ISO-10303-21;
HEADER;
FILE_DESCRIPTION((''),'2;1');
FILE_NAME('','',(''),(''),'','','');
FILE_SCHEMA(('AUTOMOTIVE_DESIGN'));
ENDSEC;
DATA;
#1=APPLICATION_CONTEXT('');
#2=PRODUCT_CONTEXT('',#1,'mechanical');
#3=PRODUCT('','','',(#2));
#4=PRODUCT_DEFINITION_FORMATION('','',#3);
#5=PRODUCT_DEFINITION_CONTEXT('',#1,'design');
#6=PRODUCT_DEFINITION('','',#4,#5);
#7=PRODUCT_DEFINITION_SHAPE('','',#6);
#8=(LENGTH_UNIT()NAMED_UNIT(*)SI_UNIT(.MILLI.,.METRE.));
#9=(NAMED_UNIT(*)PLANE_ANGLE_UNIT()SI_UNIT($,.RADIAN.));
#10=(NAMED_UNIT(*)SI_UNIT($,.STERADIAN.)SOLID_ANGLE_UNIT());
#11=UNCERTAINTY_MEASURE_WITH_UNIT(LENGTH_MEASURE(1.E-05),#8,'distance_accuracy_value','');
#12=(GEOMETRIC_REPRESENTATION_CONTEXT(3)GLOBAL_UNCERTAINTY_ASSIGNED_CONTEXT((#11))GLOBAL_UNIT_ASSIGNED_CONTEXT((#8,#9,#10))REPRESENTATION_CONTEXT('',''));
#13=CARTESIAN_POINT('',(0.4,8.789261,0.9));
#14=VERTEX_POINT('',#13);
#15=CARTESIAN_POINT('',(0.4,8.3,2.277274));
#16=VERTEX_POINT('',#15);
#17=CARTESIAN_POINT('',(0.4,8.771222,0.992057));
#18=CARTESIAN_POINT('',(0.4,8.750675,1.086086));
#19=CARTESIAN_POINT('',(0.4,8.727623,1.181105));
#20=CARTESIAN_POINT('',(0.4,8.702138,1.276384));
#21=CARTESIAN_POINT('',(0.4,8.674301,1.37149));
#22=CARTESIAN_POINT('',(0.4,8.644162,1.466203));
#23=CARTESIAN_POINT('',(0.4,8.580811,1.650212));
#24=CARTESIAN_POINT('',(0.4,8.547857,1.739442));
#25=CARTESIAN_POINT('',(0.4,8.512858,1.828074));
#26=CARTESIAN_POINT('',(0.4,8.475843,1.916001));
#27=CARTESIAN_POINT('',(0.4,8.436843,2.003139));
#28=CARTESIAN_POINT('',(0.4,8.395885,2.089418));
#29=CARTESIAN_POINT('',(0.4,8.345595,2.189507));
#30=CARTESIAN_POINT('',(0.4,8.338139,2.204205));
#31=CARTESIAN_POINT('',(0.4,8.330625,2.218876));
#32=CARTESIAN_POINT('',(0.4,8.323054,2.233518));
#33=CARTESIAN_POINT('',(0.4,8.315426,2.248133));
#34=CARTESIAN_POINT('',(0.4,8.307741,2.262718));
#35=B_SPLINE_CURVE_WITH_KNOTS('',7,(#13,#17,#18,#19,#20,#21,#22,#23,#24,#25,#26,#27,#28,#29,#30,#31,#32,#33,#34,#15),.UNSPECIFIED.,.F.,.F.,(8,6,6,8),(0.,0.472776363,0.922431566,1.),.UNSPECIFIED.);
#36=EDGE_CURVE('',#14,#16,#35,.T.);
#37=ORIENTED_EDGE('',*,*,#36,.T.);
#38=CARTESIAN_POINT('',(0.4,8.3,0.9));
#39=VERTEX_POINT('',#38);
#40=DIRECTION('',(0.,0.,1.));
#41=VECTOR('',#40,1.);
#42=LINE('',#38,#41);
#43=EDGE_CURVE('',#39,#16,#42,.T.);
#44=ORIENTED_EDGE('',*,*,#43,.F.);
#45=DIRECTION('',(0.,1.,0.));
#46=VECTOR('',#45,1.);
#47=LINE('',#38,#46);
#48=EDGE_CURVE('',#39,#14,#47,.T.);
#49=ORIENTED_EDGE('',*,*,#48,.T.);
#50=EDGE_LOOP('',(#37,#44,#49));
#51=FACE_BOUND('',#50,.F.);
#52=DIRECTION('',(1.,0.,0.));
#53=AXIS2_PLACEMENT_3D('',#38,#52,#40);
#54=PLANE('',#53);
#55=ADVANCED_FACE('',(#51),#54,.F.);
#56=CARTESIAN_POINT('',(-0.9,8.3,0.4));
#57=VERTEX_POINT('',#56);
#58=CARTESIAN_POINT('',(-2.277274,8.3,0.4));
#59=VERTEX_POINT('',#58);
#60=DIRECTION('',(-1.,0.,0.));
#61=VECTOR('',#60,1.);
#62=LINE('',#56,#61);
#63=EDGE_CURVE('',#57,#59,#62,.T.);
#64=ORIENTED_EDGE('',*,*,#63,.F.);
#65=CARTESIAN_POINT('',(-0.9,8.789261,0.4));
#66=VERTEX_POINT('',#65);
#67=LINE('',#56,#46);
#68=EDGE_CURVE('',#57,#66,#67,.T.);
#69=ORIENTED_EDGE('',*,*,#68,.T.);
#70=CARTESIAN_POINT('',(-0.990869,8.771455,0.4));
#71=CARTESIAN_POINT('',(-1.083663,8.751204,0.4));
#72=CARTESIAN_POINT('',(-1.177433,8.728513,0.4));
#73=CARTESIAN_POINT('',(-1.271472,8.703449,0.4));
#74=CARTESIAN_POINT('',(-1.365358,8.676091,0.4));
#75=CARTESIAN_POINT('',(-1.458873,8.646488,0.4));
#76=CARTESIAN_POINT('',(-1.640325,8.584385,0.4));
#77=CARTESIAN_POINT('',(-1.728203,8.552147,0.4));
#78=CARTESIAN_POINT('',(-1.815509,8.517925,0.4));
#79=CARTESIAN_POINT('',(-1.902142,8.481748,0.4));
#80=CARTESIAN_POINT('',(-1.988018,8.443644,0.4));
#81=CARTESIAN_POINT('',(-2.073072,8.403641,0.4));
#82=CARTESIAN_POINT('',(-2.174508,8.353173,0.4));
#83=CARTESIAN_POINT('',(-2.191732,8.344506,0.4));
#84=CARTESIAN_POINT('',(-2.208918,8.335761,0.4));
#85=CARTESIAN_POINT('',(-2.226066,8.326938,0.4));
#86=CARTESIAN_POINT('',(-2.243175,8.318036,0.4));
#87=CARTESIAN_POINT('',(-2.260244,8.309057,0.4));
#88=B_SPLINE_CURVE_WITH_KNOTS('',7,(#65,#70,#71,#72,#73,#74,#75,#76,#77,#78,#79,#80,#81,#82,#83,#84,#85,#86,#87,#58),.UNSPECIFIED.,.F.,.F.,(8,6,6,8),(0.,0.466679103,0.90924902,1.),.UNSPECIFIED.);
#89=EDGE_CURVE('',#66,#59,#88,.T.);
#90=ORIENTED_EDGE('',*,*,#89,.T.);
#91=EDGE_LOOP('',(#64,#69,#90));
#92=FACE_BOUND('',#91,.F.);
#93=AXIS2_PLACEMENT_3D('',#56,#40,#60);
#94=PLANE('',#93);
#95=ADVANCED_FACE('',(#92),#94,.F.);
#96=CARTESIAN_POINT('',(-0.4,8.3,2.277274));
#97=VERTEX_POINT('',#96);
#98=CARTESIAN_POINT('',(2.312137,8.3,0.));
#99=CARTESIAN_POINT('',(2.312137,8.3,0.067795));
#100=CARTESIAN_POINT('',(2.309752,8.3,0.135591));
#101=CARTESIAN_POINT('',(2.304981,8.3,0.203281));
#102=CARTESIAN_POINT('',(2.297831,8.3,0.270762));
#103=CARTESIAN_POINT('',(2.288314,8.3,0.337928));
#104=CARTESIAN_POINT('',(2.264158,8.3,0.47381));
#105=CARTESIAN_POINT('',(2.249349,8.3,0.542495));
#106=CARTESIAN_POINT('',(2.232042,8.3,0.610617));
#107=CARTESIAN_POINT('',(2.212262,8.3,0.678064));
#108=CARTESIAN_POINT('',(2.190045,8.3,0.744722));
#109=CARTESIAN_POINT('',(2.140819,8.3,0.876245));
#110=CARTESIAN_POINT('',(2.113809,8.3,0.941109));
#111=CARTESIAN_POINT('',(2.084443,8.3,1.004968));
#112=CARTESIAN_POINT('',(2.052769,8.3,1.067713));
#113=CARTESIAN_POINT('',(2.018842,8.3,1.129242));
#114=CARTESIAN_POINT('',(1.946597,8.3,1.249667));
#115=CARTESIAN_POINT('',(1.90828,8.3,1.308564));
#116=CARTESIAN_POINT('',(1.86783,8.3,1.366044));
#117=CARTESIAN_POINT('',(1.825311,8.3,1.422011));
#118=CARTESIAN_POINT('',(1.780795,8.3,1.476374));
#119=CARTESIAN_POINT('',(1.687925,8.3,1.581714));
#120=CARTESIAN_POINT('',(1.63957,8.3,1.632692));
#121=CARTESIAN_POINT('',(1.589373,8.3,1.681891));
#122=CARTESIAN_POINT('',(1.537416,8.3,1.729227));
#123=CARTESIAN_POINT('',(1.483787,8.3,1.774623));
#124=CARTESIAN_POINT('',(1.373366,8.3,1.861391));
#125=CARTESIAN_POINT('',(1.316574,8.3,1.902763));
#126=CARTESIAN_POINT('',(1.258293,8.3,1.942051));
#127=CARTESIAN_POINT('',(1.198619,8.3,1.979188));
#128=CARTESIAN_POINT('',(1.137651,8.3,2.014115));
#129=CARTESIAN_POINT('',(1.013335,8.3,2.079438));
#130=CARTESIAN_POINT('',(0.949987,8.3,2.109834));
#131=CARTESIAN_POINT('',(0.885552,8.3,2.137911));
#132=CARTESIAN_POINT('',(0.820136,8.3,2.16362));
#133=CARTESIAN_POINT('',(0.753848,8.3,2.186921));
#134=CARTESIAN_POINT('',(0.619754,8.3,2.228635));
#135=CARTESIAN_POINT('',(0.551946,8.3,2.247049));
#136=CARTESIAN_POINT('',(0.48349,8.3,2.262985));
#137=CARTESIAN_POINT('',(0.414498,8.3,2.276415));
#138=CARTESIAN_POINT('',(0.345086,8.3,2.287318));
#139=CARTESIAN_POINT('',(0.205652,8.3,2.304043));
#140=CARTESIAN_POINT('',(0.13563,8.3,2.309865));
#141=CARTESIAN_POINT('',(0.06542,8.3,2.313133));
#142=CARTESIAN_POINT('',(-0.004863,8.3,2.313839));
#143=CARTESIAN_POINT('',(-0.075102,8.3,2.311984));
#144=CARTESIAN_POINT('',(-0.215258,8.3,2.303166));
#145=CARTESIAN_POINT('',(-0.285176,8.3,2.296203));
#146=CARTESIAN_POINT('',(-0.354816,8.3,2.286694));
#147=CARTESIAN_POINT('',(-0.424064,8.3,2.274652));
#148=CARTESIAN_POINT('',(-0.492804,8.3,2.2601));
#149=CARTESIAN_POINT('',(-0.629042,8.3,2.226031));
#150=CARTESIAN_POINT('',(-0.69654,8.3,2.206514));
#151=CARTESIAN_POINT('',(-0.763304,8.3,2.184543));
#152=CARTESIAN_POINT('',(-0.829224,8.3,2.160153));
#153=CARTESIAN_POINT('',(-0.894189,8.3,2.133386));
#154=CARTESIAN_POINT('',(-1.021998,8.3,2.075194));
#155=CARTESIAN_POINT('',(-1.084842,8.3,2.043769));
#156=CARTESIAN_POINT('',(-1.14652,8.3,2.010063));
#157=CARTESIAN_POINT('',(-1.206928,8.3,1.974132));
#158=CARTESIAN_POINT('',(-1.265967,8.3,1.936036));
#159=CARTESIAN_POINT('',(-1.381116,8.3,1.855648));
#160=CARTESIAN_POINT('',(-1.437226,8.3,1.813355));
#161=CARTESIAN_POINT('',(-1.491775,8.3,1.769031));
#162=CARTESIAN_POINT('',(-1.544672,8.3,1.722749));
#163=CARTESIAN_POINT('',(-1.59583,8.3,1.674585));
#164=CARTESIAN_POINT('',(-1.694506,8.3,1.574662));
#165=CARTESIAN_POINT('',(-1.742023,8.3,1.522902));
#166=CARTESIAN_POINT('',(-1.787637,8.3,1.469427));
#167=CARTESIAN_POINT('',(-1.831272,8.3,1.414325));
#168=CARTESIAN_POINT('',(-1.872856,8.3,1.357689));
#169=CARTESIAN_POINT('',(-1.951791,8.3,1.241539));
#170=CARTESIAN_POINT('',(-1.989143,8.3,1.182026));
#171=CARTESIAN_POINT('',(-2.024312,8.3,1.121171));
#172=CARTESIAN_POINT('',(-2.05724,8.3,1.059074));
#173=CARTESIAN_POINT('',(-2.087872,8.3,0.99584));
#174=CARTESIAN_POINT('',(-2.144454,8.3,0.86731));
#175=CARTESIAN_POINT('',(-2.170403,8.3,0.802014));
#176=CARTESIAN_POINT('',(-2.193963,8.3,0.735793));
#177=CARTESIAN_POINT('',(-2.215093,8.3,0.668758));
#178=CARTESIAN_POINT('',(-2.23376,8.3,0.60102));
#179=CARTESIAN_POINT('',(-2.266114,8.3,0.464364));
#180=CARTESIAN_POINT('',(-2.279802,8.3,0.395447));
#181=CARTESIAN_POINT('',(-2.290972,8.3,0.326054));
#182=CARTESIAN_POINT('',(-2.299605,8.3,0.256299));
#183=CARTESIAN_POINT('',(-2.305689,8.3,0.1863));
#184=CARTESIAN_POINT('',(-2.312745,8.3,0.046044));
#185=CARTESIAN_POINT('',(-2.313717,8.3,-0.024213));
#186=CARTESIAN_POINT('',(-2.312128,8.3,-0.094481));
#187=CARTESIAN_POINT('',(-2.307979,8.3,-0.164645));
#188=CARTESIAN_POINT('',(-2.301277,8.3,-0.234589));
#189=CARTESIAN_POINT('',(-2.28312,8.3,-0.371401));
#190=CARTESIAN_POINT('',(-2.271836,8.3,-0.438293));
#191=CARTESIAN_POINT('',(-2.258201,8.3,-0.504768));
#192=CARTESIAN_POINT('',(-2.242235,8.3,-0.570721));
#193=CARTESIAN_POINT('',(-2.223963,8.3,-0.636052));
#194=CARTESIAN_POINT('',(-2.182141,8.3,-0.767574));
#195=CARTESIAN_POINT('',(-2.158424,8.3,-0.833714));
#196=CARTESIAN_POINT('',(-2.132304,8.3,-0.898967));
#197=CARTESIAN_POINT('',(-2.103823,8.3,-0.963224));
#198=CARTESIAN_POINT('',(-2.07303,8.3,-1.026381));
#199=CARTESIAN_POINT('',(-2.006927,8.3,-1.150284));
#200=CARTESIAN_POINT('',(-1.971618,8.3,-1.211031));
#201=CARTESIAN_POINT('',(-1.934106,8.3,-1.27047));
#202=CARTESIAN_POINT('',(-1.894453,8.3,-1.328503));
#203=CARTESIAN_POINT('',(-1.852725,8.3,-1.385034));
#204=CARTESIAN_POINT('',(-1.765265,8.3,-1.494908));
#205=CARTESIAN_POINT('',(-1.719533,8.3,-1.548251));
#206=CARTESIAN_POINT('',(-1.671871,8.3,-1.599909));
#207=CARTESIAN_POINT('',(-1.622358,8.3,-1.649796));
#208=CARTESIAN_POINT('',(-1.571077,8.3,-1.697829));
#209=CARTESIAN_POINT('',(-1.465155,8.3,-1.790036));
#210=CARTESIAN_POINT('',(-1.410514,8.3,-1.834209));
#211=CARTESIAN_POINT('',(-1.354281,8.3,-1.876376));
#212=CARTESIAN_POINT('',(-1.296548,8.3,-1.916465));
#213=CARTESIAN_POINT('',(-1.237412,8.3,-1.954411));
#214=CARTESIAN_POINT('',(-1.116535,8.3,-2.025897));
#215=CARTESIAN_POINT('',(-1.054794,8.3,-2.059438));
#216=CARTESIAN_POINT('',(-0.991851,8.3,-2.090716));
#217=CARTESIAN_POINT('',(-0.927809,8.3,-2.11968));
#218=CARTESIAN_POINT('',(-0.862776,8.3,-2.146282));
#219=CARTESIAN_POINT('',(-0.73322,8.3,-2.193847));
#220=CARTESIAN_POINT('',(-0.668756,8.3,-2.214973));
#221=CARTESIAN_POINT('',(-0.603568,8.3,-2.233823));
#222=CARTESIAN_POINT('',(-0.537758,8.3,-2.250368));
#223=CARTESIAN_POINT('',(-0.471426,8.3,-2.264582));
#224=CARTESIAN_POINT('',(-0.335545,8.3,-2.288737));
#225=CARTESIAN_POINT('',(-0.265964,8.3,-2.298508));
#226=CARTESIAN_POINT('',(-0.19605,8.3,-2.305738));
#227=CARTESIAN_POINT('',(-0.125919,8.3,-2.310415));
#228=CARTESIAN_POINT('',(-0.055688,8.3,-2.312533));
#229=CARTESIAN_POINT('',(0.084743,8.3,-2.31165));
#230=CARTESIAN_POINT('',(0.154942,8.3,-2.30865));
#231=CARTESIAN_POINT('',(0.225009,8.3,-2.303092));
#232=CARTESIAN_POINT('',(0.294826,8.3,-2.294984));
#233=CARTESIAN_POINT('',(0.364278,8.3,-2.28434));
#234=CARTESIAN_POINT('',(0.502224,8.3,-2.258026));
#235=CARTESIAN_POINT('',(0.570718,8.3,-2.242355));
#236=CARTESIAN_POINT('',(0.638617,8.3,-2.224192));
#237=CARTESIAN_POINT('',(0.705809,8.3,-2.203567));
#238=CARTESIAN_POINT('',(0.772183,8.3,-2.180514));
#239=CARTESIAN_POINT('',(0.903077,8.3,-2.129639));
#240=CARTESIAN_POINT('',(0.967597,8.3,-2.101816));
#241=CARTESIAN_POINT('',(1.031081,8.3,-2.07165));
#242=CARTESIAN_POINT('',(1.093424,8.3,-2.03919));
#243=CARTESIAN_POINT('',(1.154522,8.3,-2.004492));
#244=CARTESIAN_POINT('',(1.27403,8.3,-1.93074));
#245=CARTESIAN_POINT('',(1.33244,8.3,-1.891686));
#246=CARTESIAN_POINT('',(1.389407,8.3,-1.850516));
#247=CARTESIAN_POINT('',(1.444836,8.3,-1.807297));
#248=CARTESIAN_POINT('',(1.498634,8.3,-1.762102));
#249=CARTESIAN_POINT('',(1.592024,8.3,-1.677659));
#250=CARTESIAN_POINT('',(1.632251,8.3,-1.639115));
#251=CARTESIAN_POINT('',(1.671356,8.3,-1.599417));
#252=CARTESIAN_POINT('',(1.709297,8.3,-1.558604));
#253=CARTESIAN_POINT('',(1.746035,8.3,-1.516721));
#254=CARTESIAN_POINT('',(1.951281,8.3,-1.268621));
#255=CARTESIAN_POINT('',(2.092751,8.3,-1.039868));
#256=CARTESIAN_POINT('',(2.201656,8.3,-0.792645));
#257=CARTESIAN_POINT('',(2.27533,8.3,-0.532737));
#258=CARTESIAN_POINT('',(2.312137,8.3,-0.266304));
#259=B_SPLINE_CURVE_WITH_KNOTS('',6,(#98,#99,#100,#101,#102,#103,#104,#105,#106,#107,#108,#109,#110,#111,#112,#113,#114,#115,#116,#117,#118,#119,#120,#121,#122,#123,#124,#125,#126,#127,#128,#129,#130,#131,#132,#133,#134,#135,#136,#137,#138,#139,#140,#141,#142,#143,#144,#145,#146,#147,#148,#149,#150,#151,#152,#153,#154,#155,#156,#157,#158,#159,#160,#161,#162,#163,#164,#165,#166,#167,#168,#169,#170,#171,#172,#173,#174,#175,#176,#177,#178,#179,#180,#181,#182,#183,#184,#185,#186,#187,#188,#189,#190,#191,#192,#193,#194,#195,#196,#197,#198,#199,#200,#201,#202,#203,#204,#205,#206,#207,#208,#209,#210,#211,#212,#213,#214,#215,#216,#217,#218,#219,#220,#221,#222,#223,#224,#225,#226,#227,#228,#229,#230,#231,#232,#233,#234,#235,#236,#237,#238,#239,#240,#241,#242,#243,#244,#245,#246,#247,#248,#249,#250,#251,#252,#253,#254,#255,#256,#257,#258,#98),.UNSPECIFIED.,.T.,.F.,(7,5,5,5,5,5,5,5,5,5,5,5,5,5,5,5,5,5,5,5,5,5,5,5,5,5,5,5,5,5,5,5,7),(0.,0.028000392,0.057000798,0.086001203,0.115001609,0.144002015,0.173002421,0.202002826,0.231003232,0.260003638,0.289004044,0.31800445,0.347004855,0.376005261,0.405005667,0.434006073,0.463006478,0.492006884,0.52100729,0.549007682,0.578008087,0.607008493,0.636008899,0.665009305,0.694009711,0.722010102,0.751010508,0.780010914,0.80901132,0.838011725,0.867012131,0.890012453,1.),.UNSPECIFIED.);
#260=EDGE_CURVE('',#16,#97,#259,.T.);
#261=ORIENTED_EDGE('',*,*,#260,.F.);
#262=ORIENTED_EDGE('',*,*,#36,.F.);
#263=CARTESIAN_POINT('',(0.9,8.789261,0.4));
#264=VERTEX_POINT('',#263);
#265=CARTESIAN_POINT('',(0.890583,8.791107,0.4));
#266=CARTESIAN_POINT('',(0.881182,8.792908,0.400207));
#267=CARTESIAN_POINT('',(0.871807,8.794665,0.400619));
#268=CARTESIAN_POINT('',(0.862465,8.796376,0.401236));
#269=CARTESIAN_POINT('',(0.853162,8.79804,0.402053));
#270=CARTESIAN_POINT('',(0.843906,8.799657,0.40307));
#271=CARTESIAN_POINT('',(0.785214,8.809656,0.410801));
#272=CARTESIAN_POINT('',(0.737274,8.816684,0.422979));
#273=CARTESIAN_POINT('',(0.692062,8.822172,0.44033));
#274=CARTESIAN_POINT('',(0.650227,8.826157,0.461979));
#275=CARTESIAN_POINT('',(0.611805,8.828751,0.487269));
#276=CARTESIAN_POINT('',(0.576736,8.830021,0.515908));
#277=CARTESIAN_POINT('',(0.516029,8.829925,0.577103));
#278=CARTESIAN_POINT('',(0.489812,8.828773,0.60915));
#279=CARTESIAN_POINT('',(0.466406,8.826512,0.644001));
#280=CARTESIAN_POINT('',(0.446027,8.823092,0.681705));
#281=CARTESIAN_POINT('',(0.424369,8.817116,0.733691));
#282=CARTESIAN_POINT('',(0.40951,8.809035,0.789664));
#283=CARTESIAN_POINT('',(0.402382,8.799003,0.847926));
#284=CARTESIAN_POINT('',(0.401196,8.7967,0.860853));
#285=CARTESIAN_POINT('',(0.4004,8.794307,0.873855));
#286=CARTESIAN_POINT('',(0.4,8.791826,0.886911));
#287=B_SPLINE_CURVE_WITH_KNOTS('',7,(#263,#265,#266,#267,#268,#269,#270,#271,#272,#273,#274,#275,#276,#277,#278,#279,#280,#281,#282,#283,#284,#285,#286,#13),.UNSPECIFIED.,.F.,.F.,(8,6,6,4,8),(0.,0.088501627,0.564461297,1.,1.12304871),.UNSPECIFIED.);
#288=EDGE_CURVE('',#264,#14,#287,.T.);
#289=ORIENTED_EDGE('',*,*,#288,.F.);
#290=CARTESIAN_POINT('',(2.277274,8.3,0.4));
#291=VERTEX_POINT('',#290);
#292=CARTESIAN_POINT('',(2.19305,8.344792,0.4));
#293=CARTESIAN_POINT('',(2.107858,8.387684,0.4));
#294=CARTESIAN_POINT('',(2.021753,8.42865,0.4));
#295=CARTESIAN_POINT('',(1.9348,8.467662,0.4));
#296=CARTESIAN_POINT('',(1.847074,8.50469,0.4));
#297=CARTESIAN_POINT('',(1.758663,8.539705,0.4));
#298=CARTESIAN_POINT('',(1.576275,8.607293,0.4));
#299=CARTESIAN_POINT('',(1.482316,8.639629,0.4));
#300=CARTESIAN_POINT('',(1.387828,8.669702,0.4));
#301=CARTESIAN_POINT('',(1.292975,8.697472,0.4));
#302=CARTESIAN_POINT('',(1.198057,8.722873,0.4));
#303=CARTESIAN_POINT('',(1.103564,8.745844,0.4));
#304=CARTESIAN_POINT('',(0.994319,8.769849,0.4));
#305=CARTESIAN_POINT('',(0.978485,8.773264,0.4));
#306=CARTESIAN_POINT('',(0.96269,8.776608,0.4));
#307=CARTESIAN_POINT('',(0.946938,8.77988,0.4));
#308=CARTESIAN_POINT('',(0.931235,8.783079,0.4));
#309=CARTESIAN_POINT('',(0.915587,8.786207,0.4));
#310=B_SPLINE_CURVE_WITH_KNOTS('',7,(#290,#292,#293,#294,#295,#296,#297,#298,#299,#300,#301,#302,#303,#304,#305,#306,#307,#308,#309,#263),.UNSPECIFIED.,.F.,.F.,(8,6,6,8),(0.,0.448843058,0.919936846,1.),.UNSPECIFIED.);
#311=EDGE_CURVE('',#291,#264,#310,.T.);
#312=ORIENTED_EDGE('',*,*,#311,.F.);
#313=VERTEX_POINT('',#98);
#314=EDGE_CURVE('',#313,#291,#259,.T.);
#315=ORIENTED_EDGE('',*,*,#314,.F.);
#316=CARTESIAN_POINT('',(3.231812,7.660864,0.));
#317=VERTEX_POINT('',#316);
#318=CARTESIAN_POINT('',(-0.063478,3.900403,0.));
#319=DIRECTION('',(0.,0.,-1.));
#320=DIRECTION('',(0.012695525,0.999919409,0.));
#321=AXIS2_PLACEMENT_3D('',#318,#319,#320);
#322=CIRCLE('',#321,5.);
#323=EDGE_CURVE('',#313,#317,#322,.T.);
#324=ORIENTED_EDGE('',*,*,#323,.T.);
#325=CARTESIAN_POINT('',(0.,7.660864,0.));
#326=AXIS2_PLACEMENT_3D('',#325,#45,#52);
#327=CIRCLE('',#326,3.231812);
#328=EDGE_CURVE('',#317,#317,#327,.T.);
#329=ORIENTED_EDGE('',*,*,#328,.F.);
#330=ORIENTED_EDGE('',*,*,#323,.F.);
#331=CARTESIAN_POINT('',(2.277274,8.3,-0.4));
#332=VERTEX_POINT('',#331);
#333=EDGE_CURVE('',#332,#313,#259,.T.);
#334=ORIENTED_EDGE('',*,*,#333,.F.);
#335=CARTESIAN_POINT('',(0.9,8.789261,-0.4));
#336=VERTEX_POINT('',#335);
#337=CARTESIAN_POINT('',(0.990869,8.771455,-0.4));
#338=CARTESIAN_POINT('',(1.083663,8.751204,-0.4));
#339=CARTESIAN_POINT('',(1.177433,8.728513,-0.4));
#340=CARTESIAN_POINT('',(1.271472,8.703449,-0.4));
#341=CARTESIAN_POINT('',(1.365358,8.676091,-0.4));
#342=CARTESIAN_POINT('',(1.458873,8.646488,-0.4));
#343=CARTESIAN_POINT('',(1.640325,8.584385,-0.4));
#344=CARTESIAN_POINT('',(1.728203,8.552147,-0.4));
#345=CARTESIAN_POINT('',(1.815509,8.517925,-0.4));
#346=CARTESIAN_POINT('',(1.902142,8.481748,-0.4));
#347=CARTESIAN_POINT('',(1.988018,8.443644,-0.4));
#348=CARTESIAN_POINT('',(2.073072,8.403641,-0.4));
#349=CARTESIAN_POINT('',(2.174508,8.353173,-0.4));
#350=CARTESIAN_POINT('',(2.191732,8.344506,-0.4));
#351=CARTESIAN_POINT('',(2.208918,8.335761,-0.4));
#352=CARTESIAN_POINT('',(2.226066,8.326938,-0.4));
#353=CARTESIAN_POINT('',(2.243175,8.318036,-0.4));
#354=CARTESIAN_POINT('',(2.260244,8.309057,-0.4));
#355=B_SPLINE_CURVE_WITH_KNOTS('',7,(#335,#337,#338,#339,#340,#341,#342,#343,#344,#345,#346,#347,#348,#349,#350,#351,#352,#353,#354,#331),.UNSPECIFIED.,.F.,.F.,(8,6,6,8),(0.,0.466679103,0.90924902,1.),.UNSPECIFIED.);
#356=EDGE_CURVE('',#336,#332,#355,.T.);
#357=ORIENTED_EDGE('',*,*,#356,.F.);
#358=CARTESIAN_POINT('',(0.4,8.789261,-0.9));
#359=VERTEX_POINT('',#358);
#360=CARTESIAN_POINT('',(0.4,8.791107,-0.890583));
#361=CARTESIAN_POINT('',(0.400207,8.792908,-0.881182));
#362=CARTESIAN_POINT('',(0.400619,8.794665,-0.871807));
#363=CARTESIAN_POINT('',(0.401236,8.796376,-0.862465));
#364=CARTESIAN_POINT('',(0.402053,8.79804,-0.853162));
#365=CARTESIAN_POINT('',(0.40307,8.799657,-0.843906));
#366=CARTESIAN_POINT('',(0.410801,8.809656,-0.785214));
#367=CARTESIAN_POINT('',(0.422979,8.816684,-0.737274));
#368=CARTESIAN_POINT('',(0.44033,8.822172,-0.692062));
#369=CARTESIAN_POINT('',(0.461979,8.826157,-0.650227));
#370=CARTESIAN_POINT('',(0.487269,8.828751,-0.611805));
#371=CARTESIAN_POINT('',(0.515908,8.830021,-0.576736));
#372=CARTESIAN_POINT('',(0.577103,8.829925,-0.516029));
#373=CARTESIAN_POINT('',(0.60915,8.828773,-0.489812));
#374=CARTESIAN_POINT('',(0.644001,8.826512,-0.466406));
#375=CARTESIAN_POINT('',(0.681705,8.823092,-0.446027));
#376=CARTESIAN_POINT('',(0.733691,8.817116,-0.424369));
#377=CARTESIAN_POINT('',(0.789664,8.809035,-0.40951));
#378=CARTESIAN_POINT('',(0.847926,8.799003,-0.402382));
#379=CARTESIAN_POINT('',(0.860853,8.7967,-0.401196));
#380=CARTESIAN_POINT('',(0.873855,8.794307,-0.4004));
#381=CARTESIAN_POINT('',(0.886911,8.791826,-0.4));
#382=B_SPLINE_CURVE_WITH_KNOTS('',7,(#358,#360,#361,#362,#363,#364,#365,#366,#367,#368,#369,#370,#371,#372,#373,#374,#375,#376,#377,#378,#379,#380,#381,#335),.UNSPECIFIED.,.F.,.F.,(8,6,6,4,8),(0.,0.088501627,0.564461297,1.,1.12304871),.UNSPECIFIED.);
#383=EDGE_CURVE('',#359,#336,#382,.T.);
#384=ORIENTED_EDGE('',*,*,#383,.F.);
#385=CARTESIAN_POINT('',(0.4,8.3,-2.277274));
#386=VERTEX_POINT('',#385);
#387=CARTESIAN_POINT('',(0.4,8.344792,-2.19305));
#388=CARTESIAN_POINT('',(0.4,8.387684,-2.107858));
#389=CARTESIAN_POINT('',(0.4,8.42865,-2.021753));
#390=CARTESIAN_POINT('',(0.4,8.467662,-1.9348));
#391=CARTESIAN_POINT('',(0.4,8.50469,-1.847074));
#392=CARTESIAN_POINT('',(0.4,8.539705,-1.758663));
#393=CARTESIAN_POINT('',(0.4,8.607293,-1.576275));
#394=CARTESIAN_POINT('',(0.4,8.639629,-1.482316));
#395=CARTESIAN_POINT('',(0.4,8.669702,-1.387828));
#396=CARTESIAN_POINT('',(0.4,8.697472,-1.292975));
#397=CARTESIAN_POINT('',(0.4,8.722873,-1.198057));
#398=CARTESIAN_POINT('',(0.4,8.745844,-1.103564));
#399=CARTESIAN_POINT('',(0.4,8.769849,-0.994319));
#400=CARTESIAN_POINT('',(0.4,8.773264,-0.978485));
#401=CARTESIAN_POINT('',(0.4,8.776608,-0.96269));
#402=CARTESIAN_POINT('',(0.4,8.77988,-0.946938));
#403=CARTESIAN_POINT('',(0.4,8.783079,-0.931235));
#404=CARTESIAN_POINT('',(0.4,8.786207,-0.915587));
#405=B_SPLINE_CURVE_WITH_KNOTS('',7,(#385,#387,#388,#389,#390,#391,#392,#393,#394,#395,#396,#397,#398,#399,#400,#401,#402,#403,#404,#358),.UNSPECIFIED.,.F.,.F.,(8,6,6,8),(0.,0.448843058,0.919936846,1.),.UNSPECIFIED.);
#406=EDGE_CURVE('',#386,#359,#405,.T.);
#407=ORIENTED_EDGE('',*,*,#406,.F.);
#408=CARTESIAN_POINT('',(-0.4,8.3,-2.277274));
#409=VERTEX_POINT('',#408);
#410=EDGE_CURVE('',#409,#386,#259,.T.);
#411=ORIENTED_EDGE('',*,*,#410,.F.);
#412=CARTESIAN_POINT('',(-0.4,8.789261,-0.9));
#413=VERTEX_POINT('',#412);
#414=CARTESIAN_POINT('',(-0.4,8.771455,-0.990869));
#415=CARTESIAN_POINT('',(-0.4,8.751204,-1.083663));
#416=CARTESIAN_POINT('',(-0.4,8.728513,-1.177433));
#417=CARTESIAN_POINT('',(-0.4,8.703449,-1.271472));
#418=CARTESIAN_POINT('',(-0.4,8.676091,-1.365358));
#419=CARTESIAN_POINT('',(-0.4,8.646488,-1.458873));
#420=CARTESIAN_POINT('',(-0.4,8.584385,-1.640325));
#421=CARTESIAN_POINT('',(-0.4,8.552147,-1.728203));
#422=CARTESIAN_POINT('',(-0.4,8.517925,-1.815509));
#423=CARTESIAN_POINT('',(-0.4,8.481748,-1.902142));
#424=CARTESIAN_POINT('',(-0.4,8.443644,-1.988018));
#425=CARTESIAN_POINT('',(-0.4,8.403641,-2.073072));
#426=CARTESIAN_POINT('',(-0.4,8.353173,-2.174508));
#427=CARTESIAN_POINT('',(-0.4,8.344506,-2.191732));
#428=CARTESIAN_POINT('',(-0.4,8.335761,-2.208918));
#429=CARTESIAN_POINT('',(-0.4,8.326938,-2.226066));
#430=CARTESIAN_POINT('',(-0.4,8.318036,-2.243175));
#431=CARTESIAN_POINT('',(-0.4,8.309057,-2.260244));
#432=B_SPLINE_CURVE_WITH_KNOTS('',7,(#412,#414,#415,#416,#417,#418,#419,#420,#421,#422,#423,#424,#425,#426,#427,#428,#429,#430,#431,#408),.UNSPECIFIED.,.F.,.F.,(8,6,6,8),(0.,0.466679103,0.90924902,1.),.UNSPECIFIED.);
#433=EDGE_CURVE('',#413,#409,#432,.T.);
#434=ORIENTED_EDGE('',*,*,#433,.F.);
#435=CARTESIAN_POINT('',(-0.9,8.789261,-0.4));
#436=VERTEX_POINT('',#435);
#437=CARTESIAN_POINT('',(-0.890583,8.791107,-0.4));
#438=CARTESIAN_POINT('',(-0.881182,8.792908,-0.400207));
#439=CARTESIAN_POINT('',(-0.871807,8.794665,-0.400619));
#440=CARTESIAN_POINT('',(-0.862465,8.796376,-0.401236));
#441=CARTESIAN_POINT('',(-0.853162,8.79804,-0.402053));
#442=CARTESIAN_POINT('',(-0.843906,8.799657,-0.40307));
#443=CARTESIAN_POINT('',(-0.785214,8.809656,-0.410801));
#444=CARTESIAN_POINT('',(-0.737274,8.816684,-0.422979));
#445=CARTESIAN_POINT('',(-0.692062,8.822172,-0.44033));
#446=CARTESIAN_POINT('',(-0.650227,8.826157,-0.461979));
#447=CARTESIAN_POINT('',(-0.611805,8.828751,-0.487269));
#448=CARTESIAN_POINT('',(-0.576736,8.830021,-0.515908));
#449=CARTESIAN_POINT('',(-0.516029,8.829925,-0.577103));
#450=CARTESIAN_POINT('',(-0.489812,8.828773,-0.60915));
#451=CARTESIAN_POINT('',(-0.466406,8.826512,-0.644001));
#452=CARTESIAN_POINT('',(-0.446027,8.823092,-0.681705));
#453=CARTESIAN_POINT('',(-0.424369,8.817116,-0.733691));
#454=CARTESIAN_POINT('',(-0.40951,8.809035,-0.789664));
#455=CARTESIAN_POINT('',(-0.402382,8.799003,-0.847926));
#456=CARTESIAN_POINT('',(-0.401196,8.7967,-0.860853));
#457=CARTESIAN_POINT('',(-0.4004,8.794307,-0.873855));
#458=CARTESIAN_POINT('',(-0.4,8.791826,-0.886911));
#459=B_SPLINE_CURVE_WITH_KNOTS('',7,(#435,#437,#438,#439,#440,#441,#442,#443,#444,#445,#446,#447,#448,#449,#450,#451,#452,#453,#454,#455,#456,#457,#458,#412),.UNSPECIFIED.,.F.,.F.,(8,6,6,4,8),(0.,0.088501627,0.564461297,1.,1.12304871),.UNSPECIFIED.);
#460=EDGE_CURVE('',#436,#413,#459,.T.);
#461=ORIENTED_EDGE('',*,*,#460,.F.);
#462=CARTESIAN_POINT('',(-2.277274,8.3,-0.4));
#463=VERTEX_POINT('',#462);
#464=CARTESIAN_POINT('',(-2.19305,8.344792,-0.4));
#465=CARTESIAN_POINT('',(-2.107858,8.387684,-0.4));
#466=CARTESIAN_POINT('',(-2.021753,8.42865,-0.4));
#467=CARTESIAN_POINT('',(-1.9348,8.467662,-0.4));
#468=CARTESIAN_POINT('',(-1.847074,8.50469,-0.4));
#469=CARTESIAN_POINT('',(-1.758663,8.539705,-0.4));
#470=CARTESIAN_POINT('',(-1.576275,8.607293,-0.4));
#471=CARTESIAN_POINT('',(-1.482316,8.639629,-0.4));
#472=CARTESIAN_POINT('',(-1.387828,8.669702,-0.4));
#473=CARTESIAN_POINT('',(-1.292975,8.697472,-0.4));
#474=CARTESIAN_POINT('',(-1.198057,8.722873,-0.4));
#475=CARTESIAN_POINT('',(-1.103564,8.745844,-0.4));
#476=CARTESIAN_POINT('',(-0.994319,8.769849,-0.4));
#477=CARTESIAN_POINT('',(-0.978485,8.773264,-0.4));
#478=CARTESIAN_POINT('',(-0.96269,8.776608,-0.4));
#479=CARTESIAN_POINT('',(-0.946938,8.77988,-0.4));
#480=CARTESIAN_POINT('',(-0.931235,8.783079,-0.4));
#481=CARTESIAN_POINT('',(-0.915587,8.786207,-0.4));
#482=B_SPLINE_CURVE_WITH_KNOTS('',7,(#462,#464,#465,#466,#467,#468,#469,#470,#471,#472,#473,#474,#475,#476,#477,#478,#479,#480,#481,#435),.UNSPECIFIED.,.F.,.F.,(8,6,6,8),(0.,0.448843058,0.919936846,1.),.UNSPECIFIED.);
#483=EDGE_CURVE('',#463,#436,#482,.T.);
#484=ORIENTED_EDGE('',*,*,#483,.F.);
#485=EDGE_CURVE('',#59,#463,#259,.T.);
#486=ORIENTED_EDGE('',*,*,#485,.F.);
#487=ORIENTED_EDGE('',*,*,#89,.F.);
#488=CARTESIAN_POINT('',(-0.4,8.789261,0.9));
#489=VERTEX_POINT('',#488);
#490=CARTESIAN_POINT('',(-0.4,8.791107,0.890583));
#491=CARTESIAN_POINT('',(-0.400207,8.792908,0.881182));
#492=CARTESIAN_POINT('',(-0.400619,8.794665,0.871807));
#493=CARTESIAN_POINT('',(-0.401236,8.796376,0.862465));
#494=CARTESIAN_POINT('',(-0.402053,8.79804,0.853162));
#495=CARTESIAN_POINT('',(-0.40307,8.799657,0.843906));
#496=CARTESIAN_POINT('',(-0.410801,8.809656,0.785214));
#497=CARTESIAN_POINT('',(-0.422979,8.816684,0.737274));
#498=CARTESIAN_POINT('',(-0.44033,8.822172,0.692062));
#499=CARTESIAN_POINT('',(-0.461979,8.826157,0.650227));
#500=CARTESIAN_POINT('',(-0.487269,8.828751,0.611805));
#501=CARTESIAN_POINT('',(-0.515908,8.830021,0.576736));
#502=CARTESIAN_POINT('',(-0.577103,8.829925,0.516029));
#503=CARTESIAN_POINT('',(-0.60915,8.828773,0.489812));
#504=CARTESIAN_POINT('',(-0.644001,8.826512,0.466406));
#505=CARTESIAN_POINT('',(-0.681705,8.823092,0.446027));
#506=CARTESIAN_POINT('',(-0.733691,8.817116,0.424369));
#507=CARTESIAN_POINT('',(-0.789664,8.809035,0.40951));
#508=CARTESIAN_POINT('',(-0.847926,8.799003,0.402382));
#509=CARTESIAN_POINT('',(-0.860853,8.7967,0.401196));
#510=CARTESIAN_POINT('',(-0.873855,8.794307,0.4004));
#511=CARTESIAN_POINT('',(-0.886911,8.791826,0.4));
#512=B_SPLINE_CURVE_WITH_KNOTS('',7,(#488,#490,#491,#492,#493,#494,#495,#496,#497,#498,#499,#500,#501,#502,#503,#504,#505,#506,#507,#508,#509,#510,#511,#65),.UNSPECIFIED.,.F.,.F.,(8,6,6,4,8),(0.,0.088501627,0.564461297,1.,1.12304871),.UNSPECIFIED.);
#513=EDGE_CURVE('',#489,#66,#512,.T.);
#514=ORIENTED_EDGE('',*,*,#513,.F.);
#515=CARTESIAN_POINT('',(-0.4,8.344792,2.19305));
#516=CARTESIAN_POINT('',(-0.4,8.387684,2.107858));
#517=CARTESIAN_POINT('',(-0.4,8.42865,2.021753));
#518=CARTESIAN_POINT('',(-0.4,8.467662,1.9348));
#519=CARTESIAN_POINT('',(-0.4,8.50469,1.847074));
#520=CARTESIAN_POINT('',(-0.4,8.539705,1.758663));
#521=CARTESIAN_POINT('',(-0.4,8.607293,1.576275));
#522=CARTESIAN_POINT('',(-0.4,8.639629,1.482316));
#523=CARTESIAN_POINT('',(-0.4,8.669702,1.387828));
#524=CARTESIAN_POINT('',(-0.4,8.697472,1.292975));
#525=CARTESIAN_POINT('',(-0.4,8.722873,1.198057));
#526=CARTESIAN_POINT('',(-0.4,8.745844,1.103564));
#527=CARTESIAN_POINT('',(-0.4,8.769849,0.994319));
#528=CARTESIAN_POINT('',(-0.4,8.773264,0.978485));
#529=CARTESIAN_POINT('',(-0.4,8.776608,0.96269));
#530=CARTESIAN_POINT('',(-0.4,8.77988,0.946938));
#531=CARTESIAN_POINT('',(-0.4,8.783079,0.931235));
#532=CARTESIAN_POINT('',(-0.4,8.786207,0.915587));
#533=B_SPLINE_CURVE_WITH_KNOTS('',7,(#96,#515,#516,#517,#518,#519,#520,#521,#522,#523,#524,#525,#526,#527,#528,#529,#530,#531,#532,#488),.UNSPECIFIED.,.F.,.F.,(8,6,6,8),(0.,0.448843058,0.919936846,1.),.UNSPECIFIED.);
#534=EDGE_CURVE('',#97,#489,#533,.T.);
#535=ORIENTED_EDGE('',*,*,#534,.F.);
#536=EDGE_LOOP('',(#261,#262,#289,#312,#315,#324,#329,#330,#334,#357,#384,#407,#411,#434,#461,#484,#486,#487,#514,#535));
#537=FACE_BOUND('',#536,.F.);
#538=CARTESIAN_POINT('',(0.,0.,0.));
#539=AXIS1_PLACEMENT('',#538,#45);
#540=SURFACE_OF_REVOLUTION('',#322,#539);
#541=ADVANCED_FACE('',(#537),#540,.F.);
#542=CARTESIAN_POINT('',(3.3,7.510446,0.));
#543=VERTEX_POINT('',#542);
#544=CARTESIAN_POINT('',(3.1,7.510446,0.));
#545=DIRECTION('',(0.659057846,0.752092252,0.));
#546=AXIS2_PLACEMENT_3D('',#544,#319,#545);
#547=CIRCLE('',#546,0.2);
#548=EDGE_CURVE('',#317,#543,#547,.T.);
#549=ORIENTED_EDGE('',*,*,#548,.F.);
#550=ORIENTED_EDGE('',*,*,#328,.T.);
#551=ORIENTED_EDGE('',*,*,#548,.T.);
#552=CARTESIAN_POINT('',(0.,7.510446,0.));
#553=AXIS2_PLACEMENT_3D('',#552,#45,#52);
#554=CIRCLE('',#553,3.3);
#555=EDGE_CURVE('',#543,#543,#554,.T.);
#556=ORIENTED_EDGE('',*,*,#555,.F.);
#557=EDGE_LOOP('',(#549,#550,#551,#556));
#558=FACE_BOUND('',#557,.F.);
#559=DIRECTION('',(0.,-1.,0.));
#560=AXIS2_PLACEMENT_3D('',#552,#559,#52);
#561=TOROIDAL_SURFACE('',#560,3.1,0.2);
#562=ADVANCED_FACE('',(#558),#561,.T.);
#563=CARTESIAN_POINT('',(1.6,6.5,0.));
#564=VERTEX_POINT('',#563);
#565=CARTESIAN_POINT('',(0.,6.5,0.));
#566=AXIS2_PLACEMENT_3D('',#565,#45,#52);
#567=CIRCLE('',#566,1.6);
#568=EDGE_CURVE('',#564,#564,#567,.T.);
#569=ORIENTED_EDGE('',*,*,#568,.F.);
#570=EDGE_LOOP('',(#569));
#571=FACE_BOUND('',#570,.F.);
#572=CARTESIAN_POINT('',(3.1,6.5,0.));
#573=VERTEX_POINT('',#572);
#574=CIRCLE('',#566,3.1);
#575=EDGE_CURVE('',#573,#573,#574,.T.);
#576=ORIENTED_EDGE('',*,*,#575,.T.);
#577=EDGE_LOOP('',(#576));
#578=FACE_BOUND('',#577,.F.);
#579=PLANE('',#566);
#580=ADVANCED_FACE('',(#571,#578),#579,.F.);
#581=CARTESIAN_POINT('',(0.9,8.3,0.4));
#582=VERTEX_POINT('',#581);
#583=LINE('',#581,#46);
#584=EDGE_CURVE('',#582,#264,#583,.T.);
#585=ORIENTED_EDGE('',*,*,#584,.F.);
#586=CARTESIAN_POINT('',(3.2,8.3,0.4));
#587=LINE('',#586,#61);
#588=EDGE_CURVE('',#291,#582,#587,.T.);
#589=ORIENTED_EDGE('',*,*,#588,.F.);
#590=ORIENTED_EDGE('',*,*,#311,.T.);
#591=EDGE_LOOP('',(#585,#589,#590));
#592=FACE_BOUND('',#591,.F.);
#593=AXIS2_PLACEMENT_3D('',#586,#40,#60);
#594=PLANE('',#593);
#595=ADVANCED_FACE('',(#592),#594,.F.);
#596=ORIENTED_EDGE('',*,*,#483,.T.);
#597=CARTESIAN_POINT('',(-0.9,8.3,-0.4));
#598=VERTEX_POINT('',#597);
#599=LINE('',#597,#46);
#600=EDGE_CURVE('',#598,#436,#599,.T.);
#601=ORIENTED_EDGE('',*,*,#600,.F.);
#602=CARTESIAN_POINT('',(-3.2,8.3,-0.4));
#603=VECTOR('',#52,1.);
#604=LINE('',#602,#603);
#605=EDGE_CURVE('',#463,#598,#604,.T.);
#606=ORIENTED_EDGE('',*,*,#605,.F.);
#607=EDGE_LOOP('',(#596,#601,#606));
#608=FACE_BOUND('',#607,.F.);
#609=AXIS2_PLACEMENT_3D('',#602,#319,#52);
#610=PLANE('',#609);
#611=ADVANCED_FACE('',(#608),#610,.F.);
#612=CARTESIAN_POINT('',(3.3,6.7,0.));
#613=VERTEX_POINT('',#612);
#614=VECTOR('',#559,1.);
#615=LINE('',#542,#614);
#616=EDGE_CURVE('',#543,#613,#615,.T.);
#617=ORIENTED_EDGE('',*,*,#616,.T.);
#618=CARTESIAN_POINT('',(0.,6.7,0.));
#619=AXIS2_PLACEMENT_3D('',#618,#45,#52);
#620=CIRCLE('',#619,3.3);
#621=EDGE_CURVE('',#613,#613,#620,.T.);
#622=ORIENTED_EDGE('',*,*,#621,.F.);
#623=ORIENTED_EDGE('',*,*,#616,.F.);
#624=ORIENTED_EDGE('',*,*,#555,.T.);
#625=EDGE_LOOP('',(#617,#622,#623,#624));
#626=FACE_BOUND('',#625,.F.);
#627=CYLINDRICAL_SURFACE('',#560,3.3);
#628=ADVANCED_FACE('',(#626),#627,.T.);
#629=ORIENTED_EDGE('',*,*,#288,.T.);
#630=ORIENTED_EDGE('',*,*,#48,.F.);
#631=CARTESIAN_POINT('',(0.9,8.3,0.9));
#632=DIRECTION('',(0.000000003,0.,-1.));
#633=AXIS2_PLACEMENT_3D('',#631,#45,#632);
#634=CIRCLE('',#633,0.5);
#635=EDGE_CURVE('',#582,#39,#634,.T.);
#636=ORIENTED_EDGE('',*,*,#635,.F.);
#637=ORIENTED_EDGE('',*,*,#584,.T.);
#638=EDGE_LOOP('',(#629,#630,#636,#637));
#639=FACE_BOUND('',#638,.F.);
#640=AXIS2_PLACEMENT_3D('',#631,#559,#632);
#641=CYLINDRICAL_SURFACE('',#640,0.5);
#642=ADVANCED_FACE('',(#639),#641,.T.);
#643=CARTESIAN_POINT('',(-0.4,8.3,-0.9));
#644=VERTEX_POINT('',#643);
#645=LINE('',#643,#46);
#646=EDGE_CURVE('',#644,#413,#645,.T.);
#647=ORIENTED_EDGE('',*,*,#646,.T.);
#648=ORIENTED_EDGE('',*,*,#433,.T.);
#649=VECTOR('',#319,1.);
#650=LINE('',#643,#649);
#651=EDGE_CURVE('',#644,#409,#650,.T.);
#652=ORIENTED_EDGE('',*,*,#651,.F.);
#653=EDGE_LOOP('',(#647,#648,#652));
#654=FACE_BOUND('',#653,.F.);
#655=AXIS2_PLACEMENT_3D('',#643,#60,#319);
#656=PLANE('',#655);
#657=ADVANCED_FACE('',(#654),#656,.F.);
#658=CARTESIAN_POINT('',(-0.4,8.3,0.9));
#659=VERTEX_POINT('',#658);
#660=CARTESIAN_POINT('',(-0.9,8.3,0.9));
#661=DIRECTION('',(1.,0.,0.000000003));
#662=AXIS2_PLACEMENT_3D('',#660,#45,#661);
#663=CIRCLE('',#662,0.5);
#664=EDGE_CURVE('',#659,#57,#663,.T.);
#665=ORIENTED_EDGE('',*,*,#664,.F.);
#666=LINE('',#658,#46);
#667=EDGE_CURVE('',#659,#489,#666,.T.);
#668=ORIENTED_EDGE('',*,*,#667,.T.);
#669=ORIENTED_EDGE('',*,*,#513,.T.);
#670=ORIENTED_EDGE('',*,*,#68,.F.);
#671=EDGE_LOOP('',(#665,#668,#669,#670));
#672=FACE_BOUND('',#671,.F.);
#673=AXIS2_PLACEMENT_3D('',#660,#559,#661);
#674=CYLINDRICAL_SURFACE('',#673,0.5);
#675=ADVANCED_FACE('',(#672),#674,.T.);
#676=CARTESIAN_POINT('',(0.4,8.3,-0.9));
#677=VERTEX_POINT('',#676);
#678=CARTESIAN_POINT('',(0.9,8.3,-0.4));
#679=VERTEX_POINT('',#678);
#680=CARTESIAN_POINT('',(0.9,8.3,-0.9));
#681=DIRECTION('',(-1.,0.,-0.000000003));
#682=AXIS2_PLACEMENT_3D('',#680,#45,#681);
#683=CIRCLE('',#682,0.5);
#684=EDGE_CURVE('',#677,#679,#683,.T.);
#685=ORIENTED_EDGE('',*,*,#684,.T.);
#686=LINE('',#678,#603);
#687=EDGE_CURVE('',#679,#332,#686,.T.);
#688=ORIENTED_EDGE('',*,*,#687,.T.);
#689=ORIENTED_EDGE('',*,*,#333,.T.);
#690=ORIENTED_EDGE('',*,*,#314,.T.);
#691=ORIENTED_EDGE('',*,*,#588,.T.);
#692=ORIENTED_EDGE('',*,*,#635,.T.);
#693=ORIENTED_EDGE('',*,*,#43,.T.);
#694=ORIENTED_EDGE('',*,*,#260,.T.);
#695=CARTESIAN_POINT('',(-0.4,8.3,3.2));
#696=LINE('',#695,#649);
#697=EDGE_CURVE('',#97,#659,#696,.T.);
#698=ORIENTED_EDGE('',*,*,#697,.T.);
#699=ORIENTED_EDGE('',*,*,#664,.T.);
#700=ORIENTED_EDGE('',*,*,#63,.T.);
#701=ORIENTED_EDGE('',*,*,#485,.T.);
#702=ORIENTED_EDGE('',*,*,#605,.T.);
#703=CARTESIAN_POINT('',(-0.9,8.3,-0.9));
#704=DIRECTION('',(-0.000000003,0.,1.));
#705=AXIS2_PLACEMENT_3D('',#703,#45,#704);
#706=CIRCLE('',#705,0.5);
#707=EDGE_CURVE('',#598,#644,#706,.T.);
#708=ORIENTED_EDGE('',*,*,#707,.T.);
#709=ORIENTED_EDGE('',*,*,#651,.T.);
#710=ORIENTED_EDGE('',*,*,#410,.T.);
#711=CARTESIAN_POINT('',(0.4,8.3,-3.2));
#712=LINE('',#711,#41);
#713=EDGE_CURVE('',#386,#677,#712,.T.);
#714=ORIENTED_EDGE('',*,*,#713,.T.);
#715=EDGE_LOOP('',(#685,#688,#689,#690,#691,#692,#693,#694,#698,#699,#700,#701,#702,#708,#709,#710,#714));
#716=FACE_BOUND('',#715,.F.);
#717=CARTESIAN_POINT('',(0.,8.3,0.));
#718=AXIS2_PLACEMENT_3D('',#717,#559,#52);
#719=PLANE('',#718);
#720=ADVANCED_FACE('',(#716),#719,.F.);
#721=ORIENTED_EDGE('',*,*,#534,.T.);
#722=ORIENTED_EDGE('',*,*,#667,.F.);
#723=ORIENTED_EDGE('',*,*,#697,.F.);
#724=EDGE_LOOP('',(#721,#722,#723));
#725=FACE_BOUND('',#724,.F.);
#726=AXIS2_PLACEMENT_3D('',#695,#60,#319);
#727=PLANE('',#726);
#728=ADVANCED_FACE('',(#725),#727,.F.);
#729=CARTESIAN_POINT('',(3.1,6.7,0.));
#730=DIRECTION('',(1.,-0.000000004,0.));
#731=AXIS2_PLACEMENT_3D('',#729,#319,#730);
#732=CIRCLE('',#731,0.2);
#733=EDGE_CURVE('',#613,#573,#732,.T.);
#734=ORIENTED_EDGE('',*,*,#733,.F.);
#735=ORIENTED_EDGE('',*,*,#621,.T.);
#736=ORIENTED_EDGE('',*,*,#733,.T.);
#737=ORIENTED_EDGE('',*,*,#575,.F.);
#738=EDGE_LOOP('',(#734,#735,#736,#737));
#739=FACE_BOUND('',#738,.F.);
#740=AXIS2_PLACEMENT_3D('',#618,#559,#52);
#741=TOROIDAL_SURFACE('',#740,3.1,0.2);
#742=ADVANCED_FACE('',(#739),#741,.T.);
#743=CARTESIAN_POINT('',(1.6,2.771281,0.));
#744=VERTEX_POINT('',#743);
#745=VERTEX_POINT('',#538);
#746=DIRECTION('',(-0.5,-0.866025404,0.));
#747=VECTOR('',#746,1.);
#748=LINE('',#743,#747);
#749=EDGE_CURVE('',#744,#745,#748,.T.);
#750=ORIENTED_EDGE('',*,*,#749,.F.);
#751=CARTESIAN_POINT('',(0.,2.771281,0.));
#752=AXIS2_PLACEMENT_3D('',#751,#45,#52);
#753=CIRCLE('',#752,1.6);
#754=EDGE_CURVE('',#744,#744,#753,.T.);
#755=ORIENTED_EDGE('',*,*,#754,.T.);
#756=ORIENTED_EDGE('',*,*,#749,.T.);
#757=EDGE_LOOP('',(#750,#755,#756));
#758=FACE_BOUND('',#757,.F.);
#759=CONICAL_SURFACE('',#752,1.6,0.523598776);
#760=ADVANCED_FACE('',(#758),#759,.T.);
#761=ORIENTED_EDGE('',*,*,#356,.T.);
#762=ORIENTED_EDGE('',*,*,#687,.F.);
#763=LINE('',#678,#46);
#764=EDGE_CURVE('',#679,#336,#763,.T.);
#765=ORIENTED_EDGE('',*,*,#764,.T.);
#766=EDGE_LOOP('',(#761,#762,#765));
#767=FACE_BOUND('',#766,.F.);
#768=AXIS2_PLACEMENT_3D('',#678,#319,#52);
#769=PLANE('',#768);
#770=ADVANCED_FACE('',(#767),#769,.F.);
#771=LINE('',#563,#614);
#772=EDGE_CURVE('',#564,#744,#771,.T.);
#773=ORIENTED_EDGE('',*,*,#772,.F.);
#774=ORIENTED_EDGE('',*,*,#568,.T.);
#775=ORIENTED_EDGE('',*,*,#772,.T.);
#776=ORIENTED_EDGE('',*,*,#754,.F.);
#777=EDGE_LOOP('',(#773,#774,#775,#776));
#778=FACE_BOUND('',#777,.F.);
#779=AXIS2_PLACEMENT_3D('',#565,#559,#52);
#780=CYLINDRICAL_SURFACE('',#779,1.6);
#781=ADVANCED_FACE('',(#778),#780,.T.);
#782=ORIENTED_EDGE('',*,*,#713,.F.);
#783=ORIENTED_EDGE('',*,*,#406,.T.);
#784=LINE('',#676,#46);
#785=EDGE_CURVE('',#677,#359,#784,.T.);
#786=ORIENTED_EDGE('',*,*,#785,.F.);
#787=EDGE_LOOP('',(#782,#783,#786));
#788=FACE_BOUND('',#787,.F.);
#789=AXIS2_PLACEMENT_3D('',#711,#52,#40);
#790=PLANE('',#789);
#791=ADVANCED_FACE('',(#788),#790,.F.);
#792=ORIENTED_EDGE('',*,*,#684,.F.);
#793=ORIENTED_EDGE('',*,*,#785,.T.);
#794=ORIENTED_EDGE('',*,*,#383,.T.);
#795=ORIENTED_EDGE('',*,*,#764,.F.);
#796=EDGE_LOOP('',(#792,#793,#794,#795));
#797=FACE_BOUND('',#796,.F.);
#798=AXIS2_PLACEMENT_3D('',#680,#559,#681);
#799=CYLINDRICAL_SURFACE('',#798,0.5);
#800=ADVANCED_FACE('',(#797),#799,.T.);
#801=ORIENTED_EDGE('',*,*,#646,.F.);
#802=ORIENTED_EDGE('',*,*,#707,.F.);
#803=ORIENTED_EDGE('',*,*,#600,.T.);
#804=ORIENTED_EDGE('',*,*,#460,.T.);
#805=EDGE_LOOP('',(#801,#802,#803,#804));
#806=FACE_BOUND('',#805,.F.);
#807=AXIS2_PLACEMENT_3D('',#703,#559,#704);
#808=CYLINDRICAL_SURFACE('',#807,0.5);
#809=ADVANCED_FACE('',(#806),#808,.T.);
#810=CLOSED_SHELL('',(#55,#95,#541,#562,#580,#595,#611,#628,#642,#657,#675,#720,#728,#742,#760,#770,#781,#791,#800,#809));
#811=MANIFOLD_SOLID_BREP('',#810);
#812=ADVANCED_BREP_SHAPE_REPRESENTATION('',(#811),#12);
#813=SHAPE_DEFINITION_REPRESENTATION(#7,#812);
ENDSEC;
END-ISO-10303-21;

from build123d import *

# Parameters (mm, degrees)
CORTAR_EXTRUIR1_START = -1.8
CORTAR_EXTRUIR1_DEPTH = 3


with BuildPart() as part:
    # Croquis1 → Revolución1 (revolve)
    with BuildSketch(Plane.XY):
        with BuildLine():
            Line((0, 0), (0, 8.9))
            ThreePointArc((0, 8.9), (1.726548348, 8.569000929), (3.231811568, 7.660864252))
            ThreePointArc((3.231811568, 7.660864252), (3.282156956, 7.593022088), (3.3, 7.5104458))
            Line((3.3, 7.5104458), (3.3, 6.7))
            ThreePointArc((3.3, 6.7), (3.241421356, 6.558578644), (3.1, 6.5))
            Line((3.1, 6.5), (1.6, 6.5))
            Line((1.6, 6.5), (1.6, 2.771281292))
            Line((1.6, 2.771281292), (0, 0))
        make_face()
    revolve(axis=Axis((0, 0, 0), (0, 1, 0)))

    # Croquis2 → Cortar-Extruir1 (cut)
    with BuildSketch(Plane.XZ.offset(-6.5).offset(CORTAR_EXTRUIR1_START)):
        with BuildLine():
            Line((-0.4, 3.2), (-0.4, 0.9))
            ThreePointArc((-0.4, 0.9), (-0.546446609, 0.546446609), (-0.9, 0.4))
            Line((-0.9, 0.4), (-3.2, 0.4))
            Line((-3.2, 0.4), (-3.2, -0.4))
            Line((-3.2, -0.4), (-0.9, -0.4))
            ThreePointArc((-0.9, -0.4), (-0.546446609, -0.546446609), (-0.4, -0.9))
            Line((-0.4, -0.9), (-0.4, -3.2))
            Line((-0.4, -3.2), (0.4, -3.2))
            Line((0.4, -3.2), (0.4, -0.9))
            ThreePointArc((0.4, -0.9), (0.546446609, -0.546446609), (0.9, -0.4))
            Line((0.9, -0.4), (3.2, -0.4))
            Line((3.2, -0.4), (3.2, 0.4))
            Line((3.2, 0.4), (0.9, 0.4))
            ThreePointArc((0.9, 0.4), (0.546446609, 0.546446609), (0.4, 0.9))
            Line((0.4, 0.9), (0.4, 3.2))
            Line((0.4, 3.2), (-0.4, 3.2))
        make_face()
    extrude(amount=-CORTAR_EXTRUIR1_DEPTH, mode=Mode.SUBTRACT)


solid = part.part
